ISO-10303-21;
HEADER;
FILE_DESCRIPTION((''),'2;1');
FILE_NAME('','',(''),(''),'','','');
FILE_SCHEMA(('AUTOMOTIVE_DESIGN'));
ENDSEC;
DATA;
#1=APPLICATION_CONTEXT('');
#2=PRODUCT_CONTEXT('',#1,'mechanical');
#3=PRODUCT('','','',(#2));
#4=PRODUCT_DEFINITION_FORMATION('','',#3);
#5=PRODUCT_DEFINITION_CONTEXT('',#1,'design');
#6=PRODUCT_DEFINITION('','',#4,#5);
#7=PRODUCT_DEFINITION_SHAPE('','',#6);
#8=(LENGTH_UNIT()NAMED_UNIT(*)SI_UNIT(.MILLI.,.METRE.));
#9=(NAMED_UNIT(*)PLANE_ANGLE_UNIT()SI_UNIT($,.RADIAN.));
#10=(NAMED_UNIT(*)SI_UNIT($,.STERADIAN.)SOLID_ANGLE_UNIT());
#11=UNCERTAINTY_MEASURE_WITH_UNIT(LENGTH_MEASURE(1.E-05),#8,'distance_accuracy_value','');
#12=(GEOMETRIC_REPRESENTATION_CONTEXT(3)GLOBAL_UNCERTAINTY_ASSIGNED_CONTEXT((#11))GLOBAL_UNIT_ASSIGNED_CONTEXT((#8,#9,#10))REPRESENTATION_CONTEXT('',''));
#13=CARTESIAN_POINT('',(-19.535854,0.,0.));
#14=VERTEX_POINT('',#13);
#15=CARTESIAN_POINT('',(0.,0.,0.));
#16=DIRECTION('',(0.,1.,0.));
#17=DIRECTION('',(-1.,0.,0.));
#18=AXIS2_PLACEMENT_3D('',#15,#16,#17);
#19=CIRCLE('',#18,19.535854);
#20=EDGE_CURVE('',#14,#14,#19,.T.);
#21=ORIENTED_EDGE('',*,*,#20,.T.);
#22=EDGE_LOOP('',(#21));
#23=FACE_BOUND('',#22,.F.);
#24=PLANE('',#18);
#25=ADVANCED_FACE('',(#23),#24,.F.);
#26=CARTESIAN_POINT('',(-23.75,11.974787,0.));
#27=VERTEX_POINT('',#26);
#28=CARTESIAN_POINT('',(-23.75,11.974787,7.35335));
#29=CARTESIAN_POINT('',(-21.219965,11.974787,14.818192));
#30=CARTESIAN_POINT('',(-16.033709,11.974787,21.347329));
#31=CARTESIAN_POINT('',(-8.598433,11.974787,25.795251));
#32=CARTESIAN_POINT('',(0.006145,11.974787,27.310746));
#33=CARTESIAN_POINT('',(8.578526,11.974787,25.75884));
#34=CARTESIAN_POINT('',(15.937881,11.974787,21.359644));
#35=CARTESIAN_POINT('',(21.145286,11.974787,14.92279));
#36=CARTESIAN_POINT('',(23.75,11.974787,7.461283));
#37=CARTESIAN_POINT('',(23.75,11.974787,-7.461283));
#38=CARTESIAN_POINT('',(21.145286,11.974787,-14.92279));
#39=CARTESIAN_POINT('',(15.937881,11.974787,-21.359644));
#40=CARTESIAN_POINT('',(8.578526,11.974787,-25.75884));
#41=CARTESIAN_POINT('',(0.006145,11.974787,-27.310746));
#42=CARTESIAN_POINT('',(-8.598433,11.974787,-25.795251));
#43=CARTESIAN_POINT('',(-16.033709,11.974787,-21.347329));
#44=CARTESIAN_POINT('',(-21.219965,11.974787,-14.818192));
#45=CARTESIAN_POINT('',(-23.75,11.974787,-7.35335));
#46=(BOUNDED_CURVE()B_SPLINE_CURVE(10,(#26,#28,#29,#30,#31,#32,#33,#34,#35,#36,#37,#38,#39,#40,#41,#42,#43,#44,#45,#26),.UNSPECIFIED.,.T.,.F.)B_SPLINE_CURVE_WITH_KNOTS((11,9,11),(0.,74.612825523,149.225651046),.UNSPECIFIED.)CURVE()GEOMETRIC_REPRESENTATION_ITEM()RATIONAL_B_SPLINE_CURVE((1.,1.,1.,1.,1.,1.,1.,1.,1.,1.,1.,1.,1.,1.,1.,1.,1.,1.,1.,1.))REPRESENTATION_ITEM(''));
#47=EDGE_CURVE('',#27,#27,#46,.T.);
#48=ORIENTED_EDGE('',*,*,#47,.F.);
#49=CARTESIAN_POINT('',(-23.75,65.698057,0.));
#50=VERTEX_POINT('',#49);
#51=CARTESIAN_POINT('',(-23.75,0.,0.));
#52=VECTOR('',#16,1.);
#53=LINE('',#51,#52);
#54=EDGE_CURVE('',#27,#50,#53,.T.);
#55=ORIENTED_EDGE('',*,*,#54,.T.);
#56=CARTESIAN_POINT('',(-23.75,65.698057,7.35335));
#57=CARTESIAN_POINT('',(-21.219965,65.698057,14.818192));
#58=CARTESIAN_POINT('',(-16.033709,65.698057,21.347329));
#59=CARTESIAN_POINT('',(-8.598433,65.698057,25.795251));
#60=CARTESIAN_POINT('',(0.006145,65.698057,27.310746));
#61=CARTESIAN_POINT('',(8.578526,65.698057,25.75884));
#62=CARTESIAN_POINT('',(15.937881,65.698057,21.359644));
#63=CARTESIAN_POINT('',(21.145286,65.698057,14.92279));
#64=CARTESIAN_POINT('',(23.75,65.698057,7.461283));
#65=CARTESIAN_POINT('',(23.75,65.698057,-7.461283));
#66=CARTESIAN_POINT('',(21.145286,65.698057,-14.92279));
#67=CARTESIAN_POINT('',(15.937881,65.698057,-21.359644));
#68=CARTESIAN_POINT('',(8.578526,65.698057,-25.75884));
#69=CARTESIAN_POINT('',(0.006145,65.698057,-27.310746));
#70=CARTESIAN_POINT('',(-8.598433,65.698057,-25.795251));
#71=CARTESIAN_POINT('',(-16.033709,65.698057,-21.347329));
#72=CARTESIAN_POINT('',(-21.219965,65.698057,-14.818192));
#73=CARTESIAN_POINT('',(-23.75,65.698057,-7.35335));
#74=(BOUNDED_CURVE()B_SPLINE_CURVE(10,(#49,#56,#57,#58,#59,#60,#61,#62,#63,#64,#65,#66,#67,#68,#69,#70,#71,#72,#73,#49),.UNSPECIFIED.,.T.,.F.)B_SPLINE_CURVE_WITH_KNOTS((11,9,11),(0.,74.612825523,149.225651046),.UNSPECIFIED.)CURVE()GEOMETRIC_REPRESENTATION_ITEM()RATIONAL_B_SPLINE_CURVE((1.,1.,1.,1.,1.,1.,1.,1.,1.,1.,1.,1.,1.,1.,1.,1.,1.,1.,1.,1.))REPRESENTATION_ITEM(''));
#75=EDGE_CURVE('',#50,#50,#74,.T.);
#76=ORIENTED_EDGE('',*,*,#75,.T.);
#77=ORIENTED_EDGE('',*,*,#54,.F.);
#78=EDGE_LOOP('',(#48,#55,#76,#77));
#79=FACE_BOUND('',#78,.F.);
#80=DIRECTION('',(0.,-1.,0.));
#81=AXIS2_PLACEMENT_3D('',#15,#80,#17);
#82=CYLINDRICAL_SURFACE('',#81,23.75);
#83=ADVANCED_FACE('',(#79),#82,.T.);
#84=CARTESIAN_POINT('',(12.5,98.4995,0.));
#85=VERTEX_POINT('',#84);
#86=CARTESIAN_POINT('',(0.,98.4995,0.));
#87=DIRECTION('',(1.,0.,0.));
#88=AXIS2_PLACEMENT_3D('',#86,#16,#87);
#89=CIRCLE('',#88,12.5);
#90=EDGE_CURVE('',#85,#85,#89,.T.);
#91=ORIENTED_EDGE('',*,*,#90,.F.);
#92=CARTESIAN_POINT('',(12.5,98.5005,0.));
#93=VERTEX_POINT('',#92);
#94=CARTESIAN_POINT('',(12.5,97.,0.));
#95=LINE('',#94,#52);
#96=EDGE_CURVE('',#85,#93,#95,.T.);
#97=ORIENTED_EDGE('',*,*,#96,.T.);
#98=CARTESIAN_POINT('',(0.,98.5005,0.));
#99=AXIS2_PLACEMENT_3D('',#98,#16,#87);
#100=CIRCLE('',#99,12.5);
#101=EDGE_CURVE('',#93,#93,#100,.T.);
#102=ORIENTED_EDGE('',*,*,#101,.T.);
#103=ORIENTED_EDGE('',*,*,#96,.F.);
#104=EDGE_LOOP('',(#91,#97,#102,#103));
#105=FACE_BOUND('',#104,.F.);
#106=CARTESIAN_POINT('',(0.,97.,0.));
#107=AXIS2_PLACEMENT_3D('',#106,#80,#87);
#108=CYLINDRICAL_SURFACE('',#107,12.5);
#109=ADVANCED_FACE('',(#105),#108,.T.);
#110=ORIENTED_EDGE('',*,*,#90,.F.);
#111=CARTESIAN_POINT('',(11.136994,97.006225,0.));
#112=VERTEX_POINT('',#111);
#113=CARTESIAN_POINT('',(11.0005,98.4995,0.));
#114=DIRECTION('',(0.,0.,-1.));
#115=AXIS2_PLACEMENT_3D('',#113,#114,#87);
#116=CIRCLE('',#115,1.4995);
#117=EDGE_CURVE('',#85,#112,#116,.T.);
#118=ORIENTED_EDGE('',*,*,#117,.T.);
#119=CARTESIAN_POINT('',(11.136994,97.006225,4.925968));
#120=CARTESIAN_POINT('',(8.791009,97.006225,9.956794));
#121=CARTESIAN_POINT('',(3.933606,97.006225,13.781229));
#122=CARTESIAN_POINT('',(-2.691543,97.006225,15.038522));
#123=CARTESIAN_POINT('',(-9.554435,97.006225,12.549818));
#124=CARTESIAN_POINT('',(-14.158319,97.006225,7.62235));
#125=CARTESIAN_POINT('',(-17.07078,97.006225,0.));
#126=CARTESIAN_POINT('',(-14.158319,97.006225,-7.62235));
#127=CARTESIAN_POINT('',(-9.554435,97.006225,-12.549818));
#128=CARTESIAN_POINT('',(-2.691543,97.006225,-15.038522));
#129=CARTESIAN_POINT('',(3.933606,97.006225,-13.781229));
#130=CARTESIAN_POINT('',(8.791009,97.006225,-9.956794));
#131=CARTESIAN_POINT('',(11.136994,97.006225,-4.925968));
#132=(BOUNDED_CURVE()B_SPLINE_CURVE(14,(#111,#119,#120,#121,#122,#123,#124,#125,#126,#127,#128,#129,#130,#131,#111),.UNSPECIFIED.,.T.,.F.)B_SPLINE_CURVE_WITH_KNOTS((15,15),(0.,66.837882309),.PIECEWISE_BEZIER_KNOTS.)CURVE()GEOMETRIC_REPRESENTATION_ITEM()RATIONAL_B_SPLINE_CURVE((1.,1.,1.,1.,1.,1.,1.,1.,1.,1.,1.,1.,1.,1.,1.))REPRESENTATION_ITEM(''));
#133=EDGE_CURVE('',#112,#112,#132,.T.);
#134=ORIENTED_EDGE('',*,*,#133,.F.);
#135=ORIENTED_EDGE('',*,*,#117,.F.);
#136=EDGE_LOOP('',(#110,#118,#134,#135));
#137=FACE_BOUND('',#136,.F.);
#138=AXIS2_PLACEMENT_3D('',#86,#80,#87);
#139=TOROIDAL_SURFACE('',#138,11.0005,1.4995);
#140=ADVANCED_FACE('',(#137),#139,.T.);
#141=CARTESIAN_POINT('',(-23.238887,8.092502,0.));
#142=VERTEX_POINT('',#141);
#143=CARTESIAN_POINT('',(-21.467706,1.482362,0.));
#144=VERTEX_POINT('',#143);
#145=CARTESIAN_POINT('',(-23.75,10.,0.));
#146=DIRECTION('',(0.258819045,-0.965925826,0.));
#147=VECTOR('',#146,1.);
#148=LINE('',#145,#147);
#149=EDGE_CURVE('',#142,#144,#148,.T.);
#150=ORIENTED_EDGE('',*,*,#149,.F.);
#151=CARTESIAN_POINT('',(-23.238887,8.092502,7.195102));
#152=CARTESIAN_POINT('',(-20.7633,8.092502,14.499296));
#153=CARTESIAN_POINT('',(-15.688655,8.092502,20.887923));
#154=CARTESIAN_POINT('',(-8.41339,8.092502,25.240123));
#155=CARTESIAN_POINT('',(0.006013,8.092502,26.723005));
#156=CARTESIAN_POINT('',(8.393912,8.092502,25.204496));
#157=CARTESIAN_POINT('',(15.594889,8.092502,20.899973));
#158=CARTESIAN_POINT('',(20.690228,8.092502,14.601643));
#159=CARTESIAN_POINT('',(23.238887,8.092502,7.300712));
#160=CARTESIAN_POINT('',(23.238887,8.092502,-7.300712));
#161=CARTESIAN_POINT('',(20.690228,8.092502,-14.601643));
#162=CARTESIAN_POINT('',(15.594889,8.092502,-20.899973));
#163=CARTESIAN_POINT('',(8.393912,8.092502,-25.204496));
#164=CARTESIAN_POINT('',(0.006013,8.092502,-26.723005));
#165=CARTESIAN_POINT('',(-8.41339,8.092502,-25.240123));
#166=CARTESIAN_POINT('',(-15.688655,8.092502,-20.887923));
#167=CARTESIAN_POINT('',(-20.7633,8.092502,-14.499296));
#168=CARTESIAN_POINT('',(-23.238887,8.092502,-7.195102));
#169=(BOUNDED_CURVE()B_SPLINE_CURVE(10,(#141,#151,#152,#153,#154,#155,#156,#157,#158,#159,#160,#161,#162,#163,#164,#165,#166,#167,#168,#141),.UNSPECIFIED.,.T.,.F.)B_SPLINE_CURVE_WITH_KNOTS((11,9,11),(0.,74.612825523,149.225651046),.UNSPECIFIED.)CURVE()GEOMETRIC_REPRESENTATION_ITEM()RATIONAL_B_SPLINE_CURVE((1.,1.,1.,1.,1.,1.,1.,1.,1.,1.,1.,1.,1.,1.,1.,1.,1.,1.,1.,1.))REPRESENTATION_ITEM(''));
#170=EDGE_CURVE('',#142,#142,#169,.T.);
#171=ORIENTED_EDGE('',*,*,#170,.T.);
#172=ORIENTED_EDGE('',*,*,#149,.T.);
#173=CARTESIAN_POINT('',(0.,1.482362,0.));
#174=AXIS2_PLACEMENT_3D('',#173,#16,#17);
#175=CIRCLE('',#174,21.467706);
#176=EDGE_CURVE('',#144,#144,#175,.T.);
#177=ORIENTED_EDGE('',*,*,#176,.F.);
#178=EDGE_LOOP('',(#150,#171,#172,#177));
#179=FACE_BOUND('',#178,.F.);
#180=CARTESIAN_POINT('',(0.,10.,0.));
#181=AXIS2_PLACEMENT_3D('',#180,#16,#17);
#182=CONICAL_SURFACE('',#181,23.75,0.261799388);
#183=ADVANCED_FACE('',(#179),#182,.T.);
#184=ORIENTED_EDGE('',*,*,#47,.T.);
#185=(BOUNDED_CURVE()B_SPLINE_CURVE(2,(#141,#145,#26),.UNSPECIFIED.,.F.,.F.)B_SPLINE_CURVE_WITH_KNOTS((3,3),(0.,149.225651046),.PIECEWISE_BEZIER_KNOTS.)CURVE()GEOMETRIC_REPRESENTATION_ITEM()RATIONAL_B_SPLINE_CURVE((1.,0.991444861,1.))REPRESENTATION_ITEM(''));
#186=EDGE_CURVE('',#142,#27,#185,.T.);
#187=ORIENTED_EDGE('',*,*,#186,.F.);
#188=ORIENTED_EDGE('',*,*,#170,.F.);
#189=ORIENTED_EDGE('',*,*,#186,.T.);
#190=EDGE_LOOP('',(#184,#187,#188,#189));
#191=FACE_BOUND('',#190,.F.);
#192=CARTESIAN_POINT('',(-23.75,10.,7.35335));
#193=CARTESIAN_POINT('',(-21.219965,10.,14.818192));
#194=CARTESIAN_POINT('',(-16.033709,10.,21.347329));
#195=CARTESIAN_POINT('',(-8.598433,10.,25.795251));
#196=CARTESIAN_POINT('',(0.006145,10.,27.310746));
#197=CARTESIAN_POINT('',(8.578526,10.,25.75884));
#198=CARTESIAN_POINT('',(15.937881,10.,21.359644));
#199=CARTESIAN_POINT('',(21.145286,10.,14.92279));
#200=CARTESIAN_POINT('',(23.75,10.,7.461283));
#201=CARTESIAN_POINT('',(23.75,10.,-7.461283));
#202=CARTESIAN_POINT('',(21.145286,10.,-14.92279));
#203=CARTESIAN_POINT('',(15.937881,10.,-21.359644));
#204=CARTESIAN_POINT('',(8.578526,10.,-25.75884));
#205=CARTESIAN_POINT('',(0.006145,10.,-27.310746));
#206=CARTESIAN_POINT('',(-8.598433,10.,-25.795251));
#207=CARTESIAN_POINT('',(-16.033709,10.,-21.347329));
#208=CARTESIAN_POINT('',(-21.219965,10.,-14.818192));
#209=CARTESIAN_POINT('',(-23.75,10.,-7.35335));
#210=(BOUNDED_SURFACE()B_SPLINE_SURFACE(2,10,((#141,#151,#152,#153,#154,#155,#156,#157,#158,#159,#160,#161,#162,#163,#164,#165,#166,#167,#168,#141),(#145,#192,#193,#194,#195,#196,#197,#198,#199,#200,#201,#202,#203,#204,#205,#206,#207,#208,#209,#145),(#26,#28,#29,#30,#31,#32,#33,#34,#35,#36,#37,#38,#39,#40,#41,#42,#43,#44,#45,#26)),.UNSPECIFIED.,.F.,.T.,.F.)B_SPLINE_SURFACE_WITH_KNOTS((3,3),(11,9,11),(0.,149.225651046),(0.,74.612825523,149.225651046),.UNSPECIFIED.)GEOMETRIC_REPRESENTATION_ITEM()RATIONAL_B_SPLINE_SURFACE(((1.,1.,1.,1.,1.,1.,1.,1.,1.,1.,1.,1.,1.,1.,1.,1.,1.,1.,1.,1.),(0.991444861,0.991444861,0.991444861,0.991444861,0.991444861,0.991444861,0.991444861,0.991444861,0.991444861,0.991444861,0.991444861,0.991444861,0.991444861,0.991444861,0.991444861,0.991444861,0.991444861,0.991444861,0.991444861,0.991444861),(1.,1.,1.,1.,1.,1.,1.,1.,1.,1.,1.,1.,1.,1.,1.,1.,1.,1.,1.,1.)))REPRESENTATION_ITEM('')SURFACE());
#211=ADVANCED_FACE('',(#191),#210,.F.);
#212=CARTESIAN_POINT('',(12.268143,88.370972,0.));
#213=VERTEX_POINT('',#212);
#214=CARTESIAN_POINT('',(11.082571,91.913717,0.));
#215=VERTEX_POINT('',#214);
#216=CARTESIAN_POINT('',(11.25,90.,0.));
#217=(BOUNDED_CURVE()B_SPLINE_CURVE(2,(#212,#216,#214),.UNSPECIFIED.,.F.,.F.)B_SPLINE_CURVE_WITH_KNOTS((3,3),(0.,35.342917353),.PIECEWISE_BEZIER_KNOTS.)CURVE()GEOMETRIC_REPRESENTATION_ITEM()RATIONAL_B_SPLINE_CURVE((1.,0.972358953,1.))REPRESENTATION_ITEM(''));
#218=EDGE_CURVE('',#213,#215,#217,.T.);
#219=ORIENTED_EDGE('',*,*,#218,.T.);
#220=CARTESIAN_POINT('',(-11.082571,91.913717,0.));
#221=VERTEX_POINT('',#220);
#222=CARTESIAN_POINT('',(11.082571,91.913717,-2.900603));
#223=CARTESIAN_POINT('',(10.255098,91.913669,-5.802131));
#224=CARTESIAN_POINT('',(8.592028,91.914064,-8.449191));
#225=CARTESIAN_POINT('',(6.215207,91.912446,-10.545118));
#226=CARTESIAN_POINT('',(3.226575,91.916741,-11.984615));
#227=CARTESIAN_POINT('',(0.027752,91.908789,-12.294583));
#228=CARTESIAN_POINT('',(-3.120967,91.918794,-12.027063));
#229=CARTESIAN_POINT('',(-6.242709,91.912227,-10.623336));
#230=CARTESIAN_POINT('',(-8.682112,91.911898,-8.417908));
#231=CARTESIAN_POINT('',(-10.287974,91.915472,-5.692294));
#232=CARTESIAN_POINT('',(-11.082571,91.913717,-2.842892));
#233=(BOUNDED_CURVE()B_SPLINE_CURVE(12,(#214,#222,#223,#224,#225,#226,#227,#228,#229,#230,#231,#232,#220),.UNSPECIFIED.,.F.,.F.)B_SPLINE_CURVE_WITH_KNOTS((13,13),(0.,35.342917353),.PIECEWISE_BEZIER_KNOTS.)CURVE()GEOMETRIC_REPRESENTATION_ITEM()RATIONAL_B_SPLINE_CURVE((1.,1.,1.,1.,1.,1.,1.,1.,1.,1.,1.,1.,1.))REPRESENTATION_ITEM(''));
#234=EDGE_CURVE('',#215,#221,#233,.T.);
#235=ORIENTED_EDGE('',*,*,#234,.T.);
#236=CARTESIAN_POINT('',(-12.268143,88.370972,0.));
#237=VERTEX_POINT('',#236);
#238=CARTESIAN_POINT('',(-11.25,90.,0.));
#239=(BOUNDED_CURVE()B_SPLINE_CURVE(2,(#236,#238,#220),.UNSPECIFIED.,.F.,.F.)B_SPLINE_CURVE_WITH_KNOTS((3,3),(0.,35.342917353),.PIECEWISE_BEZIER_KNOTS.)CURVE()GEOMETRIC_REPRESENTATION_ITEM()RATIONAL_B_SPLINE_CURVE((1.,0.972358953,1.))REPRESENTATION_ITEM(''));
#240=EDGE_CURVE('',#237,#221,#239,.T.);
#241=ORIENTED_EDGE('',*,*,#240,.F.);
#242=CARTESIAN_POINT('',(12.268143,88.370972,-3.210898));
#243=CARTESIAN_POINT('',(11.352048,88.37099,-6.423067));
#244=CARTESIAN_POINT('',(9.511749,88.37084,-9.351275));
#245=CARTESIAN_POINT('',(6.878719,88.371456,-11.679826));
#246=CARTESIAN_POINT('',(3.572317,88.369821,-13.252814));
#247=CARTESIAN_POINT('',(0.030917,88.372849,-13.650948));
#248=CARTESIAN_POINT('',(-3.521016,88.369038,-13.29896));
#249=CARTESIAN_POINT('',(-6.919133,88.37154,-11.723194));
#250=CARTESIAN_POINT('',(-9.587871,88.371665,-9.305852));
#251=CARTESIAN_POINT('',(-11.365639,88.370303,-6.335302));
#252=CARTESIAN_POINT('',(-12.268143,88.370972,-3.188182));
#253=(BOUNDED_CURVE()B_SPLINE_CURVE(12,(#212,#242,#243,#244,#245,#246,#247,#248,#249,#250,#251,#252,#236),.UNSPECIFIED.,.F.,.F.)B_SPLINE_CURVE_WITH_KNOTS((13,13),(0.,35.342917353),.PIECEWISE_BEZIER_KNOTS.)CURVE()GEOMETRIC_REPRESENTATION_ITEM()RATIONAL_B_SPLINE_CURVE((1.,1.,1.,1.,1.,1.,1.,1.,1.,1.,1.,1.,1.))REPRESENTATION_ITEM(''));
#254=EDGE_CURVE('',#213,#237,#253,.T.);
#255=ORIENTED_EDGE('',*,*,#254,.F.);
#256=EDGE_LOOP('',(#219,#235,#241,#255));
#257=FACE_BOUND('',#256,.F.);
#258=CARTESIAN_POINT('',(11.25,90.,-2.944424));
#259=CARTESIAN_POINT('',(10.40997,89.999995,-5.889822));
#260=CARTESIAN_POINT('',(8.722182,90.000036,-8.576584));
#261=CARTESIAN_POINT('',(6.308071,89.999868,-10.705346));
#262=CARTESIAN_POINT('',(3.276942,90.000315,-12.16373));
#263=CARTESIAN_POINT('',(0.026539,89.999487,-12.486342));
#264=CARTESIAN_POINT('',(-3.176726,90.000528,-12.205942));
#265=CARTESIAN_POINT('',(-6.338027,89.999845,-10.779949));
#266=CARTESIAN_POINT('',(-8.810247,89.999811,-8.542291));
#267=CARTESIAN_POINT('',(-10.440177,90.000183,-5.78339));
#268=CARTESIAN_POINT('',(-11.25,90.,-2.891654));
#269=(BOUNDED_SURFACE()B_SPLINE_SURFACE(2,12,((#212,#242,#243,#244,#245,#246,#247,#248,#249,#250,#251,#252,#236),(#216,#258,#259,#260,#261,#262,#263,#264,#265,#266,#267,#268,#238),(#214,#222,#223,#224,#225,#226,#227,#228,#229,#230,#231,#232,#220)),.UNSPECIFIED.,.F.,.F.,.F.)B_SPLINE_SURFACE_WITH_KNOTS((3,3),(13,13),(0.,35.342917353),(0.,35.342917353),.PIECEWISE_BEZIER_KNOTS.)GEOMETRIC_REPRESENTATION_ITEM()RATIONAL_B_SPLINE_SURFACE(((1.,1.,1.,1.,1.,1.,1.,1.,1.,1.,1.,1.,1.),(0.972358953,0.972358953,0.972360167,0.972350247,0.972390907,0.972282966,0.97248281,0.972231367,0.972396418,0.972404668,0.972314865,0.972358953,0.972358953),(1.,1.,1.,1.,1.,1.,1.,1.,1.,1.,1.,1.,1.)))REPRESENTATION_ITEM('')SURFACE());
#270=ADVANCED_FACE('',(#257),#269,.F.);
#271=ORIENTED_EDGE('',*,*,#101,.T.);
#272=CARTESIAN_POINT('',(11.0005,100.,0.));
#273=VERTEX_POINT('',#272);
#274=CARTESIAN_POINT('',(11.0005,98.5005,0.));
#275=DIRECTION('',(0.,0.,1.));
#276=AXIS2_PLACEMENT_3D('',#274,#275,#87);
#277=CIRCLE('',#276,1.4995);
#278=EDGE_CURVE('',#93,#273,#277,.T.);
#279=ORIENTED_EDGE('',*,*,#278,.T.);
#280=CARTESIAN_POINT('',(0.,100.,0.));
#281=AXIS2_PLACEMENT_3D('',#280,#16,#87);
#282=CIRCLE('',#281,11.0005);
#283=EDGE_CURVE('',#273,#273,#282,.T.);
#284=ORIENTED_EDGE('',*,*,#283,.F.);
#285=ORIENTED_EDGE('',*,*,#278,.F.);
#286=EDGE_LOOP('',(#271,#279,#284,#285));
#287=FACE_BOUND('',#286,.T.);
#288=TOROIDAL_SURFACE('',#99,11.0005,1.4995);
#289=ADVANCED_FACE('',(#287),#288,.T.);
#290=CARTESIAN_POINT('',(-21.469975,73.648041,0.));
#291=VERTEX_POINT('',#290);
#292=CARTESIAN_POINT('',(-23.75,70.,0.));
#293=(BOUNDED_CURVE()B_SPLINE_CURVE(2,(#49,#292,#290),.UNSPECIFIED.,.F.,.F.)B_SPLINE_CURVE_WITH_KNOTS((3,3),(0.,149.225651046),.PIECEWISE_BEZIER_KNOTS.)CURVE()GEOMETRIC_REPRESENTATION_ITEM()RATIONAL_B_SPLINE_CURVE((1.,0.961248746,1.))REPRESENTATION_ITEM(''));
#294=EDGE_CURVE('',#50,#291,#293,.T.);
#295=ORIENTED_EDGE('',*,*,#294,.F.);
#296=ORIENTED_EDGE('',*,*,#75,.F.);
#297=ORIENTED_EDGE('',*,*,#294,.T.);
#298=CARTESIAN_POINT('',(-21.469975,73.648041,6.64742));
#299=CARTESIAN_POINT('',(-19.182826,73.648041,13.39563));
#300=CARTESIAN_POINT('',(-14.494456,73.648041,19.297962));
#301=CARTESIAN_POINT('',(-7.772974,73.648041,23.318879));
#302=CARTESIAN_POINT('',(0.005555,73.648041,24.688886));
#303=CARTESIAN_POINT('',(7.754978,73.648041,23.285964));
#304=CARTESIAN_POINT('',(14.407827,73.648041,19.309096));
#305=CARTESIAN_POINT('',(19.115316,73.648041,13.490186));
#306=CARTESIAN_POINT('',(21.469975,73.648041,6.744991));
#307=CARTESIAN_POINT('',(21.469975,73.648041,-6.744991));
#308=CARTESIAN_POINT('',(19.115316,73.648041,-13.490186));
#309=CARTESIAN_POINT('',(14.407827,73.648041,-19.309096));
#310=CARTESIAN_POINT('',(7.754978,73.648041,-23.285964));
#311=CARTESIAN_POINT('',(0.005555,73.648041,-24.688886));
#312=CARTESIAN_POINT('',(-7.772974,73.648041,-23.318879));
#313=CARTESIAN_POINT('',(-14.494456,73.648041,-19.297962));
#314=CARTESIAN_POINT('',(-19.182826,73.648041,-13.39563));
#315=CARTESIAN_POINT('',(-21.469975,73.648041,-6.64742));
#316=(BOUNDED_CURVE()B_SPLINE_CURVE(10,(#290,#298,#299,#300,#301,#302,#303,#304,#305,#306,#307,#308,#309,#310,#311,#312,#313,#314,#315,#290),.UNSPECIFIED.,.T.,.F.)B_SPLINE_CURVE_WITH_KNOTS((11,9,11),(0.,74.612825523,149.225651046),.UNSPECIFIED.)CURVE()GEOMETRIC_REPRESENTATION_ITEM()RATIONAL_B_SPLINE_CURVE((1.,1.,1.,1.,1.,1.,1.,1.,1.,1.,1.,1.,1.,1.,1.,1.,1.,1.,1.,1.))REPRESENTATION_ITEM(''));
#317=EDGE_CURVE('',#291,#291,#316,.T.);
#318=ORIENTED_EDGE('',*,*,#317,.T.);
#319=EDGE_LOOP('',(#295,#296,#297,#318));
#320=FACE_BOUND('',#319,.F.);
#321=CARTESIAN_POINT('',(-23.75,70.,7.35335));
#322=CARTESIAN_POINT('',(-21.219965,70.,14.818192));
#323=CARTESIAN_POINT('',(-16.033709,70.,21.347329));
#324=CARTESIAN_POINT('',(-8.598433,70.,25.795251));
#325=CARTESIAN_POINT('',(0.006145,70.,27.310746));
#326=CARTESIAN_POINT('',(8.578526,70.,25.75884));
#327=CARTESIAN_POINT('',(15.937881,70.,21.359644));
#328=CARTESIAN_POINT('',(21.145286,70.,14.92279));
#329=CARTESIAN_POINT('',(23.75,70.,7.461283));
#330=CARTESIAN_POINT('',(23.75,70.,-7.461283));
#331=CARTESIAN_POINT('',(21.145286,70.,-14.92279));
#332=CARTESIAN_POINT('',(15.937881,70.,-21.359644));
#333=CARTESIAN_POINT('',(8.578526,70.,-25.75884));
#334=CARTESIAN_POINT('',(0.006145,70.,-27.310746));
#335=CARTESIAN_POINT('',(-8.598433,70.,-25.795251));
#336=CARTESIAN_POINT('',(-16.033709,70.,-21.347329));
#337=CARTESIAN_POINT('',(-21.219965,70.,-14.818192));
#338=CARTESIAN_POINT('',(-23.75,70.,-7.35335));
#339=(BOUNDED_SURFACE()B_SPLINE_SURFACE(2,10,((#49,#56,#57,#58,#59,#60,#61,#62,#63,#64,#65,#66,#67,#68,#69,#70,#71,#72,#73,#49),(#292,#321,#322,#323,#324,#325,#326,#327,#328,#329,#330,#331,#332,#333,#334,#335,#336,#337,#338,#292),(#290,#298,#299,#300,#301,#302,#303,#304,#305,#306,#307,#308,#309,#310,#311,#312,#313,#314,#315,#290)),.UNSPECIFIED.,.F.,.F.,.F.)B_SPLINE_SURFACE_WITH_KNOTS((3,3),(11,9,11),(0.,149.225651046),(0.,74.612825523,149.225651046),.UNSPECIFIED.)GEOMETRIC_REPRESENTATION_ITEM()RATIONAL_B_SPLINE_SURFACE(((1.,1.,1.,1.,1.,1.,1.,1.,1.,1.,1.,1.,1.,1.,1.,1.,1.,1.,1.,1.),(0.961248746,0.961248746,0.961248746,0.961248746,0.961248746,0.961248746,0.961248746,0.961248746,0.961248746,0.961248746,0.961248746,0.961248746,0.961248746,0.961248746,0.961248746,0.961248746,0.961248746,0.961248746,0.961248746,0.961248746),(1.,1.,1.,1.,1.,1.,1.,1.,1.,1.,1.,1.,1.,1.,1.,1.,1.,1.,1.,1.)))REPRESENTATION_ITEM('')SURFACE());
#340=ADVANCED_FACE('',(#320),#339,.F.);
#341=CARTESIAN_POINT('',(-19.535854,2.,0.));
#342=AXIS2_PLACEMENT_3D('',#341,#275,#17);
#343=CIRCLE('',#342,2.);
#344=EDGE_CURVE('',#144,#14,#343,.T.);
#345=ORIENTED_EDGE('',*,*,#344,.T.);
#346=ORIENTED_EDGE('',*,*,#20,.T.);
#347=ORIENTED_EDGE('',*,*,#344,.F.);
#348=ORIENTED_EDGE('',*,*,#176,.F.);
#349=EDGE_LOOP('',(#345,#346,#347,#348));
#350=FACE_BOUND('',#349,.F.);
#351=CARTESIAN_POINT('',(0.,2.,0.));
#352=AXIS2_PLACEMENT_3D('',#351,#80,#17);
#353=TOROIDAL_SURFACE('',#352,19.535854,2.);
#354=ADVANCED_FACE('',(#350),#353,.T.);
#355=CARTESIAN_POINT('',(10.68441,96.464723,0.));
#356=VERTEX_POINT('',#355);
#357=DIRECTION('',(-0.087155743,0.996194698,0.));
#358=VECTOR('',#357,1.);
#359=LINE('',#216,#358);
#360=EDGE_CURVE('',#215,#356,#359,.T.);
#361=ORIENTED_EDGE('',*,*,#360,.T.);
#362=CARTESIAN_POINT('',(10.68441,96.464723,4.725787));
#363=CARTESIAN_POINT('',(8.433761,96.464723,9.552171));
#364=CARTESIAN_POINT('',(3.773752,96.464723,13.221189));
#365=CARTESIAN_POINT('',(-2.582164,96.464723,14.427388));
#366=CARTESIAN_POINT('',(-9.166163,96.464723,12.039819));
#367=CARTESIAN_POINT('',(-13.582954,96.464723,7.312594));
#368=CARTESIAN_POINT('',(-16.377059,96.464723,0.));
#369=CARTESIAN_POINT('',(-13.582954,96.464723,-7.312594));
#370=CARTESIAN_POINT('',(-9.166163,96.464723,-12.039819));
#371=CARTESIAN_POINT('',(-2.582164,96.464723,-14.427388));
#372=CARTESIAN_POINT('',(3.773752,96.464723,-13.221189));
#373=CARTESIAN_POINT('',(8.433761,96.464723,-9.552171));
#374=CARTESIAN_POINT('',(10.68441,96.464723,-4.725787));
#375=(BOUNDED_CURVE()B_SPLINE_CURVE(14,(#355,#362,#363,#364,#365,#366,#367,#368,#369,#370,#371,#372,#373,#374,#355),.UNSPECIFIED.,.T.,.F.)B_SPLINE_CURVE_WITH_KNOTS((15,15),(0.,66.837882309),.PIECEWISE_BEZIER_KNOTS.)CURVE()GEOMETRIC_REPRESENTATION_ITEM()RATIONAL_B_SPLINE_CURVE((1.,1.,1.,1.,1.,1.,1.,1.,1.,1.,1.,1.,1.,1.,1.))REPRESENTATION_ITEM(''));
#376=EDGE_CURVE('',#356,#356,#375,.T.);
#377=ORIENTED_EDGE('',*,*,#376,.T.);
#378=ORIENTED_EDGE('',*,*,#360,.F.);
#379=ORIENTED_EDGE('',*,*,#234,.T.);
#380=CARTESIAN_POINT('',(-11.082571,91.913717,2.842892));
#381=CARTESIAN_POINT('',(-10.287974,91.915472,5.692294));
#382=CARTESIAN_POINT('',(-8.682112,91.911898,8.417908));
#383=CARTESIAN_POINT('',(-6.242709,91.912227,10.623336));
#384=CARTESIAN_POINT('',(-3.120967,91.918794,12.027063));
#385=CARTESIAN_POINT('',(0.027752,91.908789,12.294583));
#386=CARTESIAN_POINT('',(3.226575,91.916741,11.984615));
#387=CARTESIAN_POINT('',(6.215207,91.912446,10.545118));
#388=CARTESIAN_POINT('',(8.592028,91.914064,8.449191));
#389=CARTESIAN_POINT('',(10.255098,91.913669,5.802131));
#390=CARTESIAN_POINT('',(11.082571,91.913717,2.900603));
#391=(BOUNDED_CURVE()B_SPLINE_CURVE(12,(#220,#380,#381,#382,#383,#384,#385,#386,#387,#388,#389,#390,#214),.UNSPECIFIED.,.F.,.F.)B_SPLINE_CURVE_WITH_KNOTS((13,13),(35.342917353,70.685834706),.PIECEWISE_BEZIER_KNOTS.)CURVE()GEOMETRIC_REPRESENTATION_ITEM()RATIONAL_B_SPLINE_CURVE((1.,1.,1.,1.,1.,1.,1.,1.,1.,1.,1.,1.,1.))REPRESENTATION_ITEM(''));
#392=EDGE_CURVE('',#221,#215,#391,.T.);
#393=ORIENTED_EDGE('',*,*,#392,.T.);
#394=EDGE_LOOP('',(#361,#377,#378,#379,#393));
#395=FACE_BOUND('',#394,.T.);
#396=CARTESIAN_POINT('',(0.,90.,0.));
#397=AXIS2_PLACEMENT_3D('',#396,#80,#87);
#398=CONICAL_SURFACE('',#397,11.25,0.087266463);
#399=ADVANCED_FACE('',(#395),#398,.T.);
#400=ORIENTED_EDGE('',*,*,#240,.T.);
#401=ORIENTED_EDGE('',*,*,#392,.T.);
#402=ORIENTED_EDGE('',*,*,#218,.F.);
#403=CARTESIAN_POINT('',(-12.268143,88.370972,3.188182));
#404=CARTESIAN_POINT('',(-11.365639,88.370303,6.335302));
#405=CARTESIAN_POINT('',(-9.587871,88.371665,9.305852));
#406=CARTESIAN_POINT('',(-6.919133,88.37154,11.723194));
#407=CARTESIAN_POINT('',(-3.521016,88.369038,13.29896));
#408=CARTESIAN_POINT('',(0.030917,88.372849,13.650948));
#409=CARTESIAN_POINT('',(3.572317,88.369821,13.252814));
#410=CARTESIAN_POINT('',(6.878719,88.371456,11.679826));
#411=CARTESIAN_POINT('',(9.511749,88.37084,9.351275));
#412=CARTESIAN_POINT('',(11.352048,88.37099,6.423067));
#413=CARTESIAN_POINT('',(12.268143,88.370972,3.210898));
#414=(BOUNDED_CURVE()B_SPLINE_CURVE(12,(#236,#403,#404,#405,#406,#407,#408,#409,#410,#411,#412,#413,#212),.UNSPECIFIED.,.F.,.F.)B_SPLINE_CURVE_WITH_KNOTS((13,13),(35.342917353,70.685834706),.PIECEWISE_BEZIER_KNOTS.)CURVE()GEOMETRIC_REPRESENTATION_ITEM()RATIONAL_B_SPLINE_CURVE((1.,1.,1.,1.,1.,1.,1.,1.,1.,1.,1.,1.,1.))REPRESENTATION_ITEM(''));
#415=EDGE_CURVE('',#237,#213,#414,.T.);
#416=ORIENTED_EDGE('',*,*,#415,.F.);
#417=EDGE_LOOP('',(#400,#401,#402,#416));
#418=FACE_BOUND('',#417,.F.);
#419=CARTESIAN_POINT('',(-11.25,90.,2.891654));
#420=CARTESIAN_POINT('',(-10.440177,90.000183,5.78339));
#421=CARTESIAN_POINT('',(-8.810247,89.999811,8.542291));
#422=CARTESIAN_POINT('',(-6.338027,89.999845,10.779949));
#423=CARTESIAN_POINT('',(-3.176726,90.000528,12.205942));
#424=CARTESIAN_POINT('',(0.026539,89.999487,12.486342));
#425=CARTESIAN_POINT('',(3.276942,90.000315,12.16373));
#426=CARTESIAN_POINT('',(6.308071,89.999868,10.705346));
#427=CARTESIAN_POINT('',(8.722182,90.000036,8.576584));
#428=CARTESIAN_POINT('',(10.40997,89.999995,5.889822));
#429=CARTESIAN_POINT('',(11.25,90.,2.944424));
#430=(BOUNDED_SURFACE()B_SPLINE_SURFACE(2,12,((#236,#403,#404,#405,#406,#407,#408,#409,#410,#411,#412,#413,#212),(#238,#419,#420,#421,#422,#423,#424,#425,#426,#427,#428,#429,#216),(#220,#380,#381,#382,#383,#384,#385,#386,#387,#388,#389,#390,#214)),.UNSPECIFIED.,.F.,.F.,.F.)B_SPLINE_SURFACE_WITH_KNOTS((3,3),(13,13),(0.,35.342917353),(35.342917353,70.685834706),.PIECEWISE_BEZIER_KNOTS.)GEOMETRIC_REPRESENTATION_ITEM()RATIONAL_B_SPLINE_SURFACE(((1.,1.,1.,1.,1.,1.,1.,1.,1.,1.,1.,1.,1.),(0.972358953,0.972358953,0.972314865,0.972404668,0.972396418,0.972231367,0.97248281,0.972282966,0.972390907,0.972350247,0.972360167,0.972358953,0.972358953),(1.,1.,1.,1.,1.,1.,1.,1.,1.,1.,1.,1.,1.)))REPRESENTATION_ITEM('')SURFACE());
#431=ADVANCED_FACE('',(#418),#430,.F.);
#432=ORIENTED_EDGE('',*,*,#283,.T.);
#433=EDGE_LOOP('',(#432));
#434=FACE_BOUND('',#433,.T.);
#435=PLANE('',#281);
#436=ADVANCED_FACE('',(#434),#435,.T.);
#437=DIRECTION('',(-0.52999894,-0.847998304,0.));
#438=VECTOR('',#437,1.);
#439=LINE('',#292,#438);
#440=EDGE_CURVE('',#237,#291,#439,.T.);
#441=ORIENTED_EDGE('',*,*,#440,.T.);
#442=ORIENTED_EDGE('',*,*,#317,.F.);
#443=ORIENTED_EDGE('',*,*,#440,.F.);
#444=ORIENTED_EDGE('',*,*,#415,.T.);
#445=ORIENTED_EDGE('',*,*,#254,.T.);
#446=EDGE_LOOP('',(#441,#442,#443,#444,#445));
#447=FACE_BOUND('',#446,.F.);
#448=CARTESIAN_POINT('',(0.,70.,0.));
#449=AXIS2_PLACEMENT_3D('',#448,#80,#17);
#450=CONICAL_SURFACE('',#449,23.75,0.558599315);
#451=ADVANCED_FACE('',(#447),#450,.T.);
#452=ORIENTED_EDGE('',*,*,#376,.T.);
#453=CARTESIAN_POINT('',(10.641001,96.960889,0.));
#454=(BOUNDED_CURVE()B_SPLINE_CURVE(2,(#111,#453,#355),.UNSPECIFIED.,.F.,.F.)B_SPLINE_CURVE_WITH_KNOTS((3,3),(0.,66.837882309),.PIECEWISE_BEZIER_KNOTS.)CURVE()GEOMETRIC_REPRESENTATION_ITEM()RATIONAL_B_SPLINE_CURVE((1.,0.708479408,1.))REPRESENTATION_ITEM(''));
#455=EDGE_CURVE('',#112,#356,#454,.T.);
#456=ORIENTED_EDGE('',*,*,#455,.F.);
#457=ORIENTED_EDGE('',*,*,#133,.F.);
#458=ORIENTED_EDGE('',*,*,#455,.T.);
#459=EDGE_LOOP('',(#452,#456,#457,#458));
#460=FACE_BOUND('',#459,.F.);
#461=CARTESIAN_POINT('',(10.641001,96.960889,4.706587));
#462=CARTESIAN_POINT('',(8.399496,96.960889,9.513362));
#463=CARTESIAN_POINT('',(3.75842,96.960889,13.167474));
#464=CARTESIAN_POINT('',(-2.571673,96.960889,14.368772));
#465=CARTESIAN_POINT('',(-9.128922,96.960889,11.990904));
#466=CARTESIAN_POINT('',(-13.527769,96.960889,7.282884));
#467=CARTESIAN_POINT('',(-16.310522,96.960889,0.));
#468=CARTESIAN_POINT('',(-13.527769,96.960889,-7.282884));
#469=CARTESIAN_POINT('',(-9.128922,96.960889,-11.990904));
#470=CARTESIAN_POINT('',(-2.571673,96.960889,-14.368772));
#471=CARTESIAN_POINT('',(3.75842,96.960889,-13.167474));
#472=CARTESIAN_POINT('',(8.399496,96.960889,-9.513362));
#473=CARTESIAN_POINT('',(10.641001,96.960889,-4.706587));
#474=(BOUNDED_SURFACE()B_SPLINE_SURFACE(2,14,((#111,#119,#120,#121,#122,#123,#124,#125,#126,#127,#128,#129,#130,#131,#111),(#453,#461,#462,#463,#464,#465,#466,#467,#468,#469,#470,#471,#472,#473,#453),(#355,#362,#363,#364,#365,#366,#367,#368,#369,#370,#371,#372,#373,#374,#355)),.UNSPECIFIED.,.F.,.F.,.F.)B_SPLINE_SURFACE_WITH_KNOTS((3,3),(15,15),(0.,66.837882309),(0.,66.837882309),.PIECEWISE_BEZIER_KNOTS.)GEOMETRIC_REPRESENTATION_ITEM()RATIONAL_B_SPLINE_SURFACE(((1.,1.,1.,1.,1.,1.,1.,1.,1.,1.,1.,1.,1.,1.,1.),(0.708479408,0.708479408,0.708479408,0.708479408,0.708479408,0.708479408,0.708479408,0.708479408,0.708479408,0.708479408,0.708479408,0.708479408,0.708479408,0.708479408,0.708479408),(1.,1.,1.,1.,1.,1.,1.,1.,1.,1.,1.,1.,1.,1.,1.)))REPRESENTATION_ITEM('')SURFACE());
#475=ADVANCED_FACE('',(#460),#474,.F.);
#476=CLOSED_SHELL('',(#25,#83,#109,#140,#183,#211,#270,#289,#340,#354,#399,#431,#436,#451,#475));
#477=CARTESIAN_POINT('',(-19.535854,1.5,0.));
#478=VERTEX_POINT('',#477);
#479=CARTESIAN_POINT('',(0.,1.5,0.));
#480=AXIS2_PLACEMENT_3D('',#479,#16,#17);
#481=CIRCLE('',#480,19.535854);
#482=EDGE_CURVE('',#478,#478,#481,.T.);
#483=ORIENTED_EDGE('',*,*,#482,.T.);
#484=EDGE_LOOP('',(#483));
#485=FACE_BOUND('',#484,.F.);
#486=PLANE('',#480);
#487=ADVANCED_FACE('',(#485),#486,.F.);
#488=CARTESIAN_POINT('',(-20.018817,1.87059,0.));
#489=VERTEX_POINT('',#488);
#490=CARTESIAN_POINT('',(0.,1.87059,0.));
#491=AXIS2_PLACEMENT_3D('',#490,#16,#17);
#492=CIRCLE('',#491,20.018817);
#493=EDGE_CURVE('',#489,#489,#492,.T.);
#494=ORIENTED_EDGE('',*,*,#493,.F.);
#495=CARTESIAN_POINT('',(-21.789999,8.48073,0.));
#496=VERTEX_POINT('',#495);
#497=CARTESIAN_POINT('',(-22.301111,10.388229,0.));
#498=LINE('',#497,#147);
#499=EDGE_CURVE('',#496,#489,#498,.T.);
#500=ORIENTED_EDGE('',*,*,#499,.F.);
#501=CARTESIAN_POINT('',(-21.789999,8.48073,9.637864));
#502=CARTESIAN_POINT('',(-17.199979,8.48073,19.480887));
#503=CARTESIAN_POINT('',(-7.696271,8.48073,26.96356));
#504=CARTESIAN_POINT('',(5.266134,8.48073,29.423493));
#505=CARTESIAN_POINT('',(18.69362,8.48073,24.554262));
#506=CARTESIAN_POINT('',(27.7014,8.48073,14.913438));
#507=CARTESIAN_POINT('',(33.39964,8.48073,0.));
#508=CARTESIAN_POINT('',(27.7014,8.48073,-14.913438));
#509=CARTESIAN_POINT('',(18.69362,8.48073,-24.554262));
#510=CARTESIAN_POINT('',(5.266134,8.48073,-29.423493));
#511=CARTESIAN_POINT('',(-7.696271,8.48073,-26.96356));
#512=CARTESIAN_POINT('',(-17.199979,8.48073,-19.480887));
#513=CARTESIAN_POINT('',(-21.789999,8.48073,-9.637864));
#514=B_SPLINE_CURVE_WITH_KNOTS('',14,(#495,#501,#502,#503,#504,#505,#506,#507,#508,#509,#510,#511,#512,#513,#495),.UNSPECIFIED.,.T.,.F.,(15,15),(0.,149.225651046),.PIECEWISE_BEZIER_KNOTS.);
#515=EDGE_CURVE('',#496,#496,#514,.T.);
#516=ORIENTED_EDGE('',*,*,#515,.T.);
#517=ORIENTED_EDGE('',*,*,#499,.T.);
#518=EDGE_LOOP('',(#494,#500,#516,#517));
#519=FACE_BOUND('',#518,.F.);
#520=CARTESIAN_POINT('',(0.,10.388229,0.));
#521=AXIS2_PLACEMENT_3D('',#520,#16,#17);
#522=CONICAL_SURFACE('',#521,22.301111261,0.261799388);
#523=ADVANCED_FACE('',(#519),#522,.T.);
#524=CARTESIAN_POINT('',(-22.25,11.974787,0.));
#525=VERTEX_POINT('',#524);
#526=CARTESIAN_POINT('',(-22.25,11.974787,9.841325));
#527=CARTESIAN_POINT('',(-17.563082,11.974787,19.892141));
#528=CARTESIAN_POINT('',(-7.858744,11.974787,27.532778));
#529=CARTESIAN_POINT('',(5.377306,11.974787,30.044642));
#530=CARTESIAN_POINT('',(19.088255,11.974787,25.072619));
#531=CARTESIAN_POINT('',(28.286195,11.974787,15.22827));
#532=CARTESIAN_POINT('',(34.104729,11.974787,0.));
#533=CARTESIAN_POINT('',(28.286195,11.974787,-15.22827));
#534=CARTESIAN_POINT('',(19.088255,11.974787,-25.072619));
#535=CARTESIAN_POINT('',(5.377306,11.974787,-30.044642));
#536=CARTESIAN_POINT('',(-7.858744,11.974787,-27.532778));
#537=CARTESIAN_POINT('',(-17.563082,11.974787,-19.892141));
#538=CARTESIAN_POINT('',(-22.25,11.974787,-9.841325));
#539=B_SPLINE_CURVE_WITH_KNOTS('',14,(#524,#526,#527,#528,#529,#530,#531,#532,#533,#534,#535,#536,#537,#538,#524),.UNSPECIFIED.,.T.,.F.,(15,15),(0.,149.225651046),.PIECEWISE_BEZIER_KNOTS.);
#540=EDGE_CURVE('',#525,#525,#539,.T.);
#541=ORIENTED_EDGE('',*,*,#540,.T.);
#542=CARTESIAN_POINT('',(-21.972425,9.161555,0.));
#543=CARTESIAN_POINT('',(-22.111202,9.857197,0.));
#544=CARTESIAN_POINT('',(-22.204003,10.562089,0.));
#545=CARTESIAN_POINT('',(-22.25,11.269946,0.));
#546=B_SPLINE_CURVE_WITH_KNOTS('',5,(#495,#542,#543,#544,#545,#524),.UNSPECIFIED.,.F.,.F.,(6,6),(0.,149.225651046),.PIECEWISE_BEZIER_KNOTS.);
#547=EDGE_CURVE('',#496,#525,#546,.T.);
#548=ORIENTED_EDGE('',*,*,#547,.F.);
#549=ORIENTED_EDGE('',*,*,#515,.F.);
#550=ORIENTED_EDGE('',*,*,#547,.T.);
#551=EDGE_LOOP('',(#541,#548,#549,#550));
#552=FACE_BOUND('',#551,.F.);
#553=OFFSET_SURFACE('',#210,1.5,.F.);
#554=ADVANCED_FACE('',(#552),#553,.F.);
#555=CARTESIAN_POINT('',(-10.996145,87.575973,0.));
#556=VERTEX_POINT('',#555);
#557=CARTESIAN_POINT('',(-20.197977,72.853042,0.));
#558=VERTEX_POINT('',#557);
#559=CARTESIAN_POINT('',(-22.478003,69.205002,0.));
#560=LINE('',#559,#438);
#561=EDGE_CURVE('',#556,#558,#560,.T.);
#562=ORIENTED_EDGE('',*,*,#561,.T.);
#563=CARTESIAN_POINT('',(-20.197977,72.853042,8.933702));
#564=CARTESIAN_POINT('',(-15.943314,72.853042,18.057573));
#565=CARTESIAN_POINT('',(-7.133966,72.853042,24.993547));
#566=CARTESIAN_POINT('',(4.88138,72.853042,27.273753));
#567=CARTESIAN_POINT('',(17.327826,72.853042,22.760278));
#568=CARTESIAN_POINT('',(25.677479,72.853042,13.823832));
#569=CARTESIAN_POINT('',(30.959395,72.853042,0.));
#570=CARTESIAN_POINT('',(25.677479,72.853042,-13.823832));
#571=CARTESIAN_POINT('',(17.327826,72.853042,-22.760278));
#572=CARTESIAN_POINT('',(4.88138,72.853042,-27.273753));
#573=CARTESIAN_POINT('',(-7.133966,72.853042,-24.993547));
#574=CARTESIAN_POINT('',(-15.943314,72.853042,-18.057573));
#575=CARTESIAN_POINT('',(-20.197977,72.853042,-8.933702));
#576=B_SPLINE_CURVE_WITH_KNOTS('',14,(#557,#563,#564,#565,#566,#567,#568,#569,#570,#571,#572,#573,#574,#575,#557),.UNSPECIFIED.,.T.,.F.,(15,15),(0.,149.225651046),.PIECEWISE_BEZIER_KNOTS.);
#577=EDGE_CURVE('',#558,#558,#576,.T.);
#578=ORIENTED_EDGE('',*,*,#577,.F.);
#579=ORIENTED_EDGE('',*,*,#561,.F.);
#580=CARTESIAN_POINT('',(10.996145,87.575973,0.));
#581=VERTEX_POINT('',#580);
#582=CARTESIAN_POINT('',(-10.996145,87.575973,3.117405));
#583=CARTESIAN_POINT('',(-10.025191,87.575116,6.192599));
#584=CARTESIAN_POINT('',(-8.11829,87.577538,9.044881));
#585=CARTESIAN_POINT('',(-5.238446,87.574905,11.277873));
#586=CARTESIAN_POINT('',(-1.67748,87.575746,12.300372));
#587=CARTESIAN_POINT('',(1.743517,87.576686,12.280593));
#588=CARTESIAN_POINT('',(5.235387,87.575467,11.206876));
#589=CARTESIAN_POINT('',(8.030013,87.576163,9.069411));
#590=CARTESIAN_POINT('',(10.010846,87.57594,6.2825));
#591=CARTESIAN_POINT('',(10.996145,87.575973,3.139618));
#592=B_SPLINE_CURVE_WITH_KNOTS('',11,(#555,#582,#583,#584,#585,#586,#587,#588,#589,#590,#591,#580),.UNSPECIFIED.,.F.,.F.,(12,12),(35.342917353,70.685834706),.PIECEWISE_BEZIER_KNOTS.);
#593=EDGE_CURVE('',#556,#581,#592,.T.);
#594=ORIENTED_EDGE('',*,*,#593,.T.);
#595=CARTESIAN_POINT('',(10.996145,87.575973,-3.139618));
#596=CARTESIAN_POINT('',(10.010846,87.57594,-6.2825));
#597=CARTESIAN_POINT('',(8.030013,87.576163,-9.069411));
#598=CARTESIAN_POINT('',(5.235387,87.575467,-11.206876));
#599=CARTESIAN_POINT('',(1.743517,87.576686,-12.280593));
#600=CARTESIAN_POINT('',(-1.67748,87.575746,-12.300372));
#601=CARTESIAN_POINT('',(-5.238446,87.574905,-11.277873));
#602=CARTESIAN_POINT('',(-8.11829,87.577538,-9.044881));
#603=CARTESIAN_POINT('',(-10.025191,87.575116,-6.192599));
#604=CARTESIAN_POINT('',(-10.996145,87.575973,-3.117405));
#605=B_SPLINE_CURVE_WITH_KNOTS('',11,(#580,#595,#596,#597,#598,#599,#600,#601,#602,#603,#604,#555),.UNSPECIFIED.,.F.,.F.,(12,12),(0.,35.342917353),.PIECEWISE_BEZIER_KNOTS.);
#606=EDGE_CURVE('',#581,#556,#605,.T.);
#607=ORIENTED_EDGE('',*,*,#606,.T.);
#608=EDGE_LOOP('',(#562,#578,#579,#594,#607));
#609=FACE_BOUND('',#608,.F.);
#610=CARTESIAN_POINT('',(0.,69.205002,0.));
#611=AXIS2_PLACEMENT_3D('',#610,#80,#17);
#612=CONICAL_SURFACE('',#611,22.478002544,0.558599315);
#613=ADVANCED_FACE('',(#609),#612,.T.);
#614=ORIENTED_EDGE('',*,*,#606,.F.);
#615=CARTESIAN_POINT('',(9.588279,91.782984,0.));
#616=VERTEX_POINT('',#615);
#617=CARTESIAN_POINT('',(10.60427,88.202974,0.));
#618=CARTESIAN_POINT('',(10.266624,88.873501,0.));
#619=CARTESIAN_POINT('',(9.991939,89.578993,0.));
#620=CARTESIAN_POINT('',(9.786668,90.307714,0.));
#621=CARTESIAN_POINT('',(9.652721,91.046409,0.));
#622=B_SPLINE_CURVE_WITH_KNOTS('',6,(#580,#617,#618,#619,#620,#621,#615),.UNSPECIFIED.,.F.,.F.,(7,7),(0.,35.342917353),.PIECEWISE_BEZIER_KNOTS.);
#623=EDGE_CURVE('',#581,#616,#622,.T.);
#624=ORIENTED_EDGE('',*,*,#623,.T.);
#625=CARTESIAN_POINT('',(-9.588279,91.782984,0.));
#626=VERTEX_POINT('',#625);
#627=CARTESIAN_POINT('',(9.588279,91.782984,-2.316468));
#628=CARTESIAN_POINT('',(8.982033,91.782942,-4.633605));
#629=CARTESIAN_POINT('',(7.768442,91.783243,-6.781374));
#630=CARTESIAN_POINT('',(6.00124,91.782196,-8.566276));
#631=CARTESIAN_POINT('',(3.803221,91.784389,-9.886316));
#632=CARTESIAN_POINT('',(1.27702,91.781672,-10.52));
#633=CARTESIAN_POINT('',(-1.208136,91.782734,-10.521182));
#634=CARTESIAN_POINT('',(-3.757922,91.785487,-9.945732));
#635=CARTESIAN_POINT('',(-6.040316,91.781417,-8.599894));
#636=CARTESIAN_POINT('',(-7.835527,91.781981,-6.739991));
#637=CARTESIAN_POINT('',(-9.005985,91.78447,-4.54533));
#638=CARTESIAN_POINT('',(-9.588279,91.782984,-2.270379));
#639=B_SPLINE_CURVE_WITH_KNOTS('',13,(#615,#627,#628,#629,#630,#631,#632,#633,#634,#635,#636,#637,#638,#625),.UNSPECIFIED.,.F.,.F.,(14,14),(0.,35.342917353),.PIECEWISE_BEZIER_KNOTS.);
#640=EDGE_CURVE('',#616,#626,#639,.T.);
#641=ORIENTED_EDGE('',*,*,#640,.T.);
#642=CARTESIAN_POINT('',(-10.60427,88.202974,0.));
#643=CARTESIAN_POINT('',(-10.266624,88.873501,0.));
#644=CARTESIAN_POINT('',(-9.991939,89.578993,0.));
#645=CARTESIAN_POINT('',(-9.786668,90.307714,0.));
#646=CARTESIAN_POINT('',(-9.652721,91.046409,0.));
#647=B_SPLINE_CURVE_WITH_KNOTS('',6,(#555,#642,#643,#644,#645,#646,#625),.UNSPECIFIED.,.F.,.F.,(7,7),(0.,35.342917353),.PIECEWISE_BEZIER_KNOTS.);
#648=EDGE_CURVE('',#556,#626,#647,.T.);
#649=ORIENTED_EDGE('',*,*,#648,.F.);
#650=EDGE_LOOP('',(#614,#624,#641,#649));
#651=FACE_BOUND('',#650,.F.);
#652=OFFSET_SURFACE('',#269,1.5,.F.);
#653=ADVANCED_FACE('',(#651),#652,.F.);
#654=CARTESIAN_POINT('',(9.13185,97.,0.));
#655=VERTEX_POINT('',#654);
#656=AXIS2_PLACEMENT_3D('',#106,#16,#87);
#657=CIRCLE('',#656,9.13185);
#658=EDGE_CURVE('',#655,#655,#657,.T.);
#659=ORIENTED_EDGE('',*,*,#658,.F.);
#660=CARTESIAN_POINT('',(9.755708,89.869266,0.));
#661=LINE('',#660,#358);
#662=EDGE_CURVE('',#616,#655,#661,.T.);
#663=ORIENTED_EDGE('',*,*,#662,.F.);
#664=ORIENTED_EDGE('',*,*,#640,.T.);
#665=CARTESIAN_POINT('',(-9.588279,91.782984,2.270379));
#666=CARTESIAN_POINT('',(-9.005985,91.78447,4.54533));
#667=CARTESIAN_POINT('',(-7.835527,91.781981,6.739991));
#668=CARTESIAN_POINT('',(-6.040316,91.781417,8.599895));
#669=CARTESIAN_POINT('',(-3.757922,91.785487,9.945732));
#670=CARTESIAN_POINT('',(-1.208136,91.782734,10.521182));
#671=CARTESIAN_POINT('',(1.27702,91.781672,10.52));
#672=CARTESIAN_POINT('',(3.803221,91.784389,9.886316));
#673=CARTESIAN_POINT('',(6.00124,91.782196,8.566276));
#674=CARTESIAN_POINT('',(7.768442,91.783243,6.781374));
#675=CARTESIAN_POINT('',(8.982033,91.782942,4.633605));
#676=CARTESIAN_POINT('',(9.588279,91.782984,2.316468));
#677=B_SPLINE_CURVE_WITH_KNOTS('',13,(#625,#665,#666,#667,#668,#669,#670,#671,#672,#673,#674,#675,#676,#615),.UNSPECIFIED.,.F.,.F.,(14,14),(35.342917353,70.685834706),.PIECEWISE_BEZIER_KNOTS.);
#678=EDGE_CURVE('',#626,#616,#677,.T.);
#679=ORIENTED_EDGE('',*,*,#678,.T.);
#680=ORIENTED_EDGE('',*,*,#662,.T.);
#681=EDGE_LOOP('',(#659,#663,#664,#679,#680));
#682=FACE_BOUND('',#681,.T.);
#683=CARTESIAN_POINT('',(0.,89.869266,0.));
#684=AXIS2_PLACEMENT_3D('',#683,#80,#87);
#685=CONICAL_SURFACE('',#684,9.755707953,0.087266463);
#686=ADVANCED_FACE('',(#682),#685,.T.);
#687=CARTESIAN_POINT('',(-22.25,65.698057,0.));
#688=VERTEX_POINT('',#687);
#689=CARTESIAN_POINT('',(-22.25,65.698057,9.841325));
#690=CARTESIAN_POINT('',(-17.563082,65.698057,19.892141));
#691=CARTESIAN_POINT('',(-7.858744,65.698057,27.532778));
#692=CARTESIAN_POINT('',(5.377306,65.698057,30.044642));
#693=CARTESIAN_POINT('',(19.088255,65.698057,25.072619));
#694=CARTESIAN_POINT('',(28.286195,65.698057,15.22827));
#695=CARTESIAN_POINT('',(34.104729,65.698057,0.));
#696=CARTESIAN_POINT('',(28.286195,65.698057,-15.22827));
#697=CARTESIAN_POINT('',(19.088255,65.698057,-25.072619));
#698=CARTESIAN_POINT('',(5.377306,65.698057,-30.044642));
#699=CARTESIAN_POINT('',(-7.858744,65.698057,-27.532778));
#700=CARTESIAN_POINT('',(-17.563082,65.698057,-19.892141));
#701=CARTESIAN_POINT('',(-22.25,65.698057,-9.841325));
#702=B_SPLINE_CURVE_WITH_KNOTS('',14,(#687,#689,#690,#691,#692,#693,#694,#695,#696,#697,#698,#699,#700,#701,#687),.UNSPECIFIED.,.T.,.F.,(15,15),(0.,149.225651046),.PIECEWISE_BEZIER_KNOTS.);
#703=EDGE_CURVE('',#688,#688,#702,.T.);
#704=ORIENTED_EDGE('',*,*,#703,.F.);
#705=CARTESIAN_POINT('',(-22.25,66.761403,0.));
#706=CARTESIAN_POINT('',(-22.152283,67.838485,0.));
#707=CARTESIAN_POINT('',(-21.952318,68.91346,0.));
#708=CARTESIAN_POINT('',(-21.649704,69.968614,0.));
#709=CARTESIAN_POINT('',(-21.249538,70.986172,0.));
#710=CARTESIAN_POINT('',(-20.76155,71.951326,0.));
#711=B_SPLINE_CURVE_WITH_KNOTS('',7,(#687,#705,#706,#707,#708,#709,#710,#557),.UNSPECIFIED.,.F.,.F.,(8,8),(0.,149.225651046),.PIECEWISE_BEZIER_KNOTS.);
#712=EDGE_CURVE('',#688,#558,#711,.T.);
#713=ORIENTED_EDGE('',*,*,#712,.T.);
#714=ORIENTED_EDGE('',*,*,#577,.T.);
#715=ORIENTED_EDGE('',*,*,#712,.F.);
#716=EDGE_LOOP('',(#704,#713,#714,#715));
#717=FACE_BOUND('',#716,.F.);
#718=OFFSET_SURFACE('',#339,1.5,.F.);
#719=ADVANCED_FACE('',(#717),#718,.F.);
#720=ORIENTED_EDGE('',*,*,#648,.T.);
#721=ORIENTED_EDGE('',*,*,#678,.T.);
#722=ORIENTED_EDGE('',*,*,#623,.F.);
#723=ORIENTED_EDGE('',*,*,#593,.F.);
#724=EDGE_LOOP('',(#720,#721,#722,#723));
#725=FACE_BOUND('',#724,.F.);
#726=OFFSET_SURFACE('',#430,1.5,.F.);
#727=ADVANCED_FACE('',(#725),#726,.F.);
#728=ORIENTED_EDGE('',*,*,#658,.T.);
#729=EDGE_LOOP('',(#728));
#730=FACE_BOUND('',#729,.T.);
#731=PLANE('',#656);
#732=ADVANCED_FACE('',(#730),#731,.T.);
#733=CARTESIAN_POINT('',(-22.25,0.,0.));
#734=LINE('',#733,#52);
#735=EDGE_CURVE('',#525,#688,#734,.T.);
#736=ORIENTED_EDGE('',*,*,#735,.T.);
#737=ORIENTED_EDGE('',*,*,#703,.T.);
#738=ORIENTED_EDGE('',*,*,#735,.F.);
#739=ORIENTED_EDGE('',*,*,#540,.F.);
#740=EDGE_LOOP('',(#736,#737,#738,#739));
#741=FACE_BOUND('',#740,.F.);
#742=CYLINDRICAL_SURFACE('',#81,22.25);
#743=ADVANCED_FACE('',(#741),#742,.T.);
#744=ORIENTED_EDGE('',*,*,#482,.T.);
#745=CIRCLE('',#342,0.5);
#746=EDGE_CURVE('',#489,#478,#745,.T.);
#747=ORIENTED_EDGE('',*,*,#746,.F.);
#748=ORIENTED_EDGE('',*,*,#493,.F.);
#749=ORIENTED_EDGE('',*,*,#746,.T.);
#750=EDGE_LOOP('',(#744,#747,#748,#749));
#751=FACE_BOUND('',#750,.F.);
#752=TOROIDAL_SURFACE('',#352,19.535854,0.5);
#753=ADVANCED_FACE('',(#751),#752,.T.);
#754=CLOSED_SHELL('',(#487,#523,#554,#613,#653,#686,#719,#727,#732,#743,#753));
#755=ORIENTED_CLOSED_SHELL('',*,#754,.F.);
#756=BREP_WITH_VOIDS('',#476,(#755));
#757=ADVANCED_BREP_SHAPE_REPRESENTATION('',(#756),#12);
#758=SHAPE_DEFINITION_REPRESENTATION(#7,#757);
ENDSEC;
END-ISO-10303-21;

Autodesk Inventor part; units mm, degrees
ref_plane "YZ Plane" through (0, 0, 0) normal (1, 0, 0) x (0, 1, 0)
ref_plane "XZ Plane" through (0, 0, 0) normal (0, 1, 0) x (-1, 0, 0)
ref_plane "XY Plane" through (0, 0, 0) normal (0, 0, 1) x (1, 0, 0)
sketch "Sketch1" plane through (0, 0, 0) normal (0, 1, 0) x (-1, 0, 0)
  circle A0 centre (0, 0) radius 23.75
  dimension "d0" = 47.5
extrude "Extrusion1" add sketch "Sketch1" along normal blind 90
chamfer "Chamfer1" distance 10 angle 15 1 edges at (23.75, 0, 0) measured on face at (-23.673, 60, -1.9111)
chamfer "Chamfer2" distance 12.5 distance2 20 1 edges at (23.75, 90, 0) measured on face at (-5.9257, 90, 5.2497)
sketch "Sketch2" plane through (0, 90, 0) normal (0, 1, 0) x (1, 0, 0)
  circle A0 centre (0, 0) radius 11.25 projected
  circle A1 centre (0, 0) radius 11.25
extrude "Extrusion2" add sketch "Sketch2" along normal blind 7 draft -5
fillet "Fillet6" radius 2 1 edges at (21.0705, 0, 0)
fillet "Fillet5" radius 15 1 edges at (23.75, 10, 0)
fillet "Fillet4" radius 15 1 edges at (23.75, 70, 0)
fillet "Fillet3" radius 8 2 edges at (0, 90, -11.25) (0, 90, 11.25)
shell "Shell1" thickness 1.5 removed faces 1 at (1.8241, 97, -2.1468)
sketch "Sketch3" plane through (0, 97, 0) normal (0, 1, 0) x (1, 0, 0)
  circle A0 centre (0, 0) radius 12.5
  dimension "d11" = 25
extrude "Extrusion3" add sketch "Sketch3" along normal blind 3
fillet "Fillet1" radius 1.5 2 edges at (-12.5, 100, 0) (-12.5, 97, 0)
fillet "Fillet2" radius 0.5 1 edges at (-10.6376, 97, 0)
properties part number "100ml Bottle 2" material "Glass"
